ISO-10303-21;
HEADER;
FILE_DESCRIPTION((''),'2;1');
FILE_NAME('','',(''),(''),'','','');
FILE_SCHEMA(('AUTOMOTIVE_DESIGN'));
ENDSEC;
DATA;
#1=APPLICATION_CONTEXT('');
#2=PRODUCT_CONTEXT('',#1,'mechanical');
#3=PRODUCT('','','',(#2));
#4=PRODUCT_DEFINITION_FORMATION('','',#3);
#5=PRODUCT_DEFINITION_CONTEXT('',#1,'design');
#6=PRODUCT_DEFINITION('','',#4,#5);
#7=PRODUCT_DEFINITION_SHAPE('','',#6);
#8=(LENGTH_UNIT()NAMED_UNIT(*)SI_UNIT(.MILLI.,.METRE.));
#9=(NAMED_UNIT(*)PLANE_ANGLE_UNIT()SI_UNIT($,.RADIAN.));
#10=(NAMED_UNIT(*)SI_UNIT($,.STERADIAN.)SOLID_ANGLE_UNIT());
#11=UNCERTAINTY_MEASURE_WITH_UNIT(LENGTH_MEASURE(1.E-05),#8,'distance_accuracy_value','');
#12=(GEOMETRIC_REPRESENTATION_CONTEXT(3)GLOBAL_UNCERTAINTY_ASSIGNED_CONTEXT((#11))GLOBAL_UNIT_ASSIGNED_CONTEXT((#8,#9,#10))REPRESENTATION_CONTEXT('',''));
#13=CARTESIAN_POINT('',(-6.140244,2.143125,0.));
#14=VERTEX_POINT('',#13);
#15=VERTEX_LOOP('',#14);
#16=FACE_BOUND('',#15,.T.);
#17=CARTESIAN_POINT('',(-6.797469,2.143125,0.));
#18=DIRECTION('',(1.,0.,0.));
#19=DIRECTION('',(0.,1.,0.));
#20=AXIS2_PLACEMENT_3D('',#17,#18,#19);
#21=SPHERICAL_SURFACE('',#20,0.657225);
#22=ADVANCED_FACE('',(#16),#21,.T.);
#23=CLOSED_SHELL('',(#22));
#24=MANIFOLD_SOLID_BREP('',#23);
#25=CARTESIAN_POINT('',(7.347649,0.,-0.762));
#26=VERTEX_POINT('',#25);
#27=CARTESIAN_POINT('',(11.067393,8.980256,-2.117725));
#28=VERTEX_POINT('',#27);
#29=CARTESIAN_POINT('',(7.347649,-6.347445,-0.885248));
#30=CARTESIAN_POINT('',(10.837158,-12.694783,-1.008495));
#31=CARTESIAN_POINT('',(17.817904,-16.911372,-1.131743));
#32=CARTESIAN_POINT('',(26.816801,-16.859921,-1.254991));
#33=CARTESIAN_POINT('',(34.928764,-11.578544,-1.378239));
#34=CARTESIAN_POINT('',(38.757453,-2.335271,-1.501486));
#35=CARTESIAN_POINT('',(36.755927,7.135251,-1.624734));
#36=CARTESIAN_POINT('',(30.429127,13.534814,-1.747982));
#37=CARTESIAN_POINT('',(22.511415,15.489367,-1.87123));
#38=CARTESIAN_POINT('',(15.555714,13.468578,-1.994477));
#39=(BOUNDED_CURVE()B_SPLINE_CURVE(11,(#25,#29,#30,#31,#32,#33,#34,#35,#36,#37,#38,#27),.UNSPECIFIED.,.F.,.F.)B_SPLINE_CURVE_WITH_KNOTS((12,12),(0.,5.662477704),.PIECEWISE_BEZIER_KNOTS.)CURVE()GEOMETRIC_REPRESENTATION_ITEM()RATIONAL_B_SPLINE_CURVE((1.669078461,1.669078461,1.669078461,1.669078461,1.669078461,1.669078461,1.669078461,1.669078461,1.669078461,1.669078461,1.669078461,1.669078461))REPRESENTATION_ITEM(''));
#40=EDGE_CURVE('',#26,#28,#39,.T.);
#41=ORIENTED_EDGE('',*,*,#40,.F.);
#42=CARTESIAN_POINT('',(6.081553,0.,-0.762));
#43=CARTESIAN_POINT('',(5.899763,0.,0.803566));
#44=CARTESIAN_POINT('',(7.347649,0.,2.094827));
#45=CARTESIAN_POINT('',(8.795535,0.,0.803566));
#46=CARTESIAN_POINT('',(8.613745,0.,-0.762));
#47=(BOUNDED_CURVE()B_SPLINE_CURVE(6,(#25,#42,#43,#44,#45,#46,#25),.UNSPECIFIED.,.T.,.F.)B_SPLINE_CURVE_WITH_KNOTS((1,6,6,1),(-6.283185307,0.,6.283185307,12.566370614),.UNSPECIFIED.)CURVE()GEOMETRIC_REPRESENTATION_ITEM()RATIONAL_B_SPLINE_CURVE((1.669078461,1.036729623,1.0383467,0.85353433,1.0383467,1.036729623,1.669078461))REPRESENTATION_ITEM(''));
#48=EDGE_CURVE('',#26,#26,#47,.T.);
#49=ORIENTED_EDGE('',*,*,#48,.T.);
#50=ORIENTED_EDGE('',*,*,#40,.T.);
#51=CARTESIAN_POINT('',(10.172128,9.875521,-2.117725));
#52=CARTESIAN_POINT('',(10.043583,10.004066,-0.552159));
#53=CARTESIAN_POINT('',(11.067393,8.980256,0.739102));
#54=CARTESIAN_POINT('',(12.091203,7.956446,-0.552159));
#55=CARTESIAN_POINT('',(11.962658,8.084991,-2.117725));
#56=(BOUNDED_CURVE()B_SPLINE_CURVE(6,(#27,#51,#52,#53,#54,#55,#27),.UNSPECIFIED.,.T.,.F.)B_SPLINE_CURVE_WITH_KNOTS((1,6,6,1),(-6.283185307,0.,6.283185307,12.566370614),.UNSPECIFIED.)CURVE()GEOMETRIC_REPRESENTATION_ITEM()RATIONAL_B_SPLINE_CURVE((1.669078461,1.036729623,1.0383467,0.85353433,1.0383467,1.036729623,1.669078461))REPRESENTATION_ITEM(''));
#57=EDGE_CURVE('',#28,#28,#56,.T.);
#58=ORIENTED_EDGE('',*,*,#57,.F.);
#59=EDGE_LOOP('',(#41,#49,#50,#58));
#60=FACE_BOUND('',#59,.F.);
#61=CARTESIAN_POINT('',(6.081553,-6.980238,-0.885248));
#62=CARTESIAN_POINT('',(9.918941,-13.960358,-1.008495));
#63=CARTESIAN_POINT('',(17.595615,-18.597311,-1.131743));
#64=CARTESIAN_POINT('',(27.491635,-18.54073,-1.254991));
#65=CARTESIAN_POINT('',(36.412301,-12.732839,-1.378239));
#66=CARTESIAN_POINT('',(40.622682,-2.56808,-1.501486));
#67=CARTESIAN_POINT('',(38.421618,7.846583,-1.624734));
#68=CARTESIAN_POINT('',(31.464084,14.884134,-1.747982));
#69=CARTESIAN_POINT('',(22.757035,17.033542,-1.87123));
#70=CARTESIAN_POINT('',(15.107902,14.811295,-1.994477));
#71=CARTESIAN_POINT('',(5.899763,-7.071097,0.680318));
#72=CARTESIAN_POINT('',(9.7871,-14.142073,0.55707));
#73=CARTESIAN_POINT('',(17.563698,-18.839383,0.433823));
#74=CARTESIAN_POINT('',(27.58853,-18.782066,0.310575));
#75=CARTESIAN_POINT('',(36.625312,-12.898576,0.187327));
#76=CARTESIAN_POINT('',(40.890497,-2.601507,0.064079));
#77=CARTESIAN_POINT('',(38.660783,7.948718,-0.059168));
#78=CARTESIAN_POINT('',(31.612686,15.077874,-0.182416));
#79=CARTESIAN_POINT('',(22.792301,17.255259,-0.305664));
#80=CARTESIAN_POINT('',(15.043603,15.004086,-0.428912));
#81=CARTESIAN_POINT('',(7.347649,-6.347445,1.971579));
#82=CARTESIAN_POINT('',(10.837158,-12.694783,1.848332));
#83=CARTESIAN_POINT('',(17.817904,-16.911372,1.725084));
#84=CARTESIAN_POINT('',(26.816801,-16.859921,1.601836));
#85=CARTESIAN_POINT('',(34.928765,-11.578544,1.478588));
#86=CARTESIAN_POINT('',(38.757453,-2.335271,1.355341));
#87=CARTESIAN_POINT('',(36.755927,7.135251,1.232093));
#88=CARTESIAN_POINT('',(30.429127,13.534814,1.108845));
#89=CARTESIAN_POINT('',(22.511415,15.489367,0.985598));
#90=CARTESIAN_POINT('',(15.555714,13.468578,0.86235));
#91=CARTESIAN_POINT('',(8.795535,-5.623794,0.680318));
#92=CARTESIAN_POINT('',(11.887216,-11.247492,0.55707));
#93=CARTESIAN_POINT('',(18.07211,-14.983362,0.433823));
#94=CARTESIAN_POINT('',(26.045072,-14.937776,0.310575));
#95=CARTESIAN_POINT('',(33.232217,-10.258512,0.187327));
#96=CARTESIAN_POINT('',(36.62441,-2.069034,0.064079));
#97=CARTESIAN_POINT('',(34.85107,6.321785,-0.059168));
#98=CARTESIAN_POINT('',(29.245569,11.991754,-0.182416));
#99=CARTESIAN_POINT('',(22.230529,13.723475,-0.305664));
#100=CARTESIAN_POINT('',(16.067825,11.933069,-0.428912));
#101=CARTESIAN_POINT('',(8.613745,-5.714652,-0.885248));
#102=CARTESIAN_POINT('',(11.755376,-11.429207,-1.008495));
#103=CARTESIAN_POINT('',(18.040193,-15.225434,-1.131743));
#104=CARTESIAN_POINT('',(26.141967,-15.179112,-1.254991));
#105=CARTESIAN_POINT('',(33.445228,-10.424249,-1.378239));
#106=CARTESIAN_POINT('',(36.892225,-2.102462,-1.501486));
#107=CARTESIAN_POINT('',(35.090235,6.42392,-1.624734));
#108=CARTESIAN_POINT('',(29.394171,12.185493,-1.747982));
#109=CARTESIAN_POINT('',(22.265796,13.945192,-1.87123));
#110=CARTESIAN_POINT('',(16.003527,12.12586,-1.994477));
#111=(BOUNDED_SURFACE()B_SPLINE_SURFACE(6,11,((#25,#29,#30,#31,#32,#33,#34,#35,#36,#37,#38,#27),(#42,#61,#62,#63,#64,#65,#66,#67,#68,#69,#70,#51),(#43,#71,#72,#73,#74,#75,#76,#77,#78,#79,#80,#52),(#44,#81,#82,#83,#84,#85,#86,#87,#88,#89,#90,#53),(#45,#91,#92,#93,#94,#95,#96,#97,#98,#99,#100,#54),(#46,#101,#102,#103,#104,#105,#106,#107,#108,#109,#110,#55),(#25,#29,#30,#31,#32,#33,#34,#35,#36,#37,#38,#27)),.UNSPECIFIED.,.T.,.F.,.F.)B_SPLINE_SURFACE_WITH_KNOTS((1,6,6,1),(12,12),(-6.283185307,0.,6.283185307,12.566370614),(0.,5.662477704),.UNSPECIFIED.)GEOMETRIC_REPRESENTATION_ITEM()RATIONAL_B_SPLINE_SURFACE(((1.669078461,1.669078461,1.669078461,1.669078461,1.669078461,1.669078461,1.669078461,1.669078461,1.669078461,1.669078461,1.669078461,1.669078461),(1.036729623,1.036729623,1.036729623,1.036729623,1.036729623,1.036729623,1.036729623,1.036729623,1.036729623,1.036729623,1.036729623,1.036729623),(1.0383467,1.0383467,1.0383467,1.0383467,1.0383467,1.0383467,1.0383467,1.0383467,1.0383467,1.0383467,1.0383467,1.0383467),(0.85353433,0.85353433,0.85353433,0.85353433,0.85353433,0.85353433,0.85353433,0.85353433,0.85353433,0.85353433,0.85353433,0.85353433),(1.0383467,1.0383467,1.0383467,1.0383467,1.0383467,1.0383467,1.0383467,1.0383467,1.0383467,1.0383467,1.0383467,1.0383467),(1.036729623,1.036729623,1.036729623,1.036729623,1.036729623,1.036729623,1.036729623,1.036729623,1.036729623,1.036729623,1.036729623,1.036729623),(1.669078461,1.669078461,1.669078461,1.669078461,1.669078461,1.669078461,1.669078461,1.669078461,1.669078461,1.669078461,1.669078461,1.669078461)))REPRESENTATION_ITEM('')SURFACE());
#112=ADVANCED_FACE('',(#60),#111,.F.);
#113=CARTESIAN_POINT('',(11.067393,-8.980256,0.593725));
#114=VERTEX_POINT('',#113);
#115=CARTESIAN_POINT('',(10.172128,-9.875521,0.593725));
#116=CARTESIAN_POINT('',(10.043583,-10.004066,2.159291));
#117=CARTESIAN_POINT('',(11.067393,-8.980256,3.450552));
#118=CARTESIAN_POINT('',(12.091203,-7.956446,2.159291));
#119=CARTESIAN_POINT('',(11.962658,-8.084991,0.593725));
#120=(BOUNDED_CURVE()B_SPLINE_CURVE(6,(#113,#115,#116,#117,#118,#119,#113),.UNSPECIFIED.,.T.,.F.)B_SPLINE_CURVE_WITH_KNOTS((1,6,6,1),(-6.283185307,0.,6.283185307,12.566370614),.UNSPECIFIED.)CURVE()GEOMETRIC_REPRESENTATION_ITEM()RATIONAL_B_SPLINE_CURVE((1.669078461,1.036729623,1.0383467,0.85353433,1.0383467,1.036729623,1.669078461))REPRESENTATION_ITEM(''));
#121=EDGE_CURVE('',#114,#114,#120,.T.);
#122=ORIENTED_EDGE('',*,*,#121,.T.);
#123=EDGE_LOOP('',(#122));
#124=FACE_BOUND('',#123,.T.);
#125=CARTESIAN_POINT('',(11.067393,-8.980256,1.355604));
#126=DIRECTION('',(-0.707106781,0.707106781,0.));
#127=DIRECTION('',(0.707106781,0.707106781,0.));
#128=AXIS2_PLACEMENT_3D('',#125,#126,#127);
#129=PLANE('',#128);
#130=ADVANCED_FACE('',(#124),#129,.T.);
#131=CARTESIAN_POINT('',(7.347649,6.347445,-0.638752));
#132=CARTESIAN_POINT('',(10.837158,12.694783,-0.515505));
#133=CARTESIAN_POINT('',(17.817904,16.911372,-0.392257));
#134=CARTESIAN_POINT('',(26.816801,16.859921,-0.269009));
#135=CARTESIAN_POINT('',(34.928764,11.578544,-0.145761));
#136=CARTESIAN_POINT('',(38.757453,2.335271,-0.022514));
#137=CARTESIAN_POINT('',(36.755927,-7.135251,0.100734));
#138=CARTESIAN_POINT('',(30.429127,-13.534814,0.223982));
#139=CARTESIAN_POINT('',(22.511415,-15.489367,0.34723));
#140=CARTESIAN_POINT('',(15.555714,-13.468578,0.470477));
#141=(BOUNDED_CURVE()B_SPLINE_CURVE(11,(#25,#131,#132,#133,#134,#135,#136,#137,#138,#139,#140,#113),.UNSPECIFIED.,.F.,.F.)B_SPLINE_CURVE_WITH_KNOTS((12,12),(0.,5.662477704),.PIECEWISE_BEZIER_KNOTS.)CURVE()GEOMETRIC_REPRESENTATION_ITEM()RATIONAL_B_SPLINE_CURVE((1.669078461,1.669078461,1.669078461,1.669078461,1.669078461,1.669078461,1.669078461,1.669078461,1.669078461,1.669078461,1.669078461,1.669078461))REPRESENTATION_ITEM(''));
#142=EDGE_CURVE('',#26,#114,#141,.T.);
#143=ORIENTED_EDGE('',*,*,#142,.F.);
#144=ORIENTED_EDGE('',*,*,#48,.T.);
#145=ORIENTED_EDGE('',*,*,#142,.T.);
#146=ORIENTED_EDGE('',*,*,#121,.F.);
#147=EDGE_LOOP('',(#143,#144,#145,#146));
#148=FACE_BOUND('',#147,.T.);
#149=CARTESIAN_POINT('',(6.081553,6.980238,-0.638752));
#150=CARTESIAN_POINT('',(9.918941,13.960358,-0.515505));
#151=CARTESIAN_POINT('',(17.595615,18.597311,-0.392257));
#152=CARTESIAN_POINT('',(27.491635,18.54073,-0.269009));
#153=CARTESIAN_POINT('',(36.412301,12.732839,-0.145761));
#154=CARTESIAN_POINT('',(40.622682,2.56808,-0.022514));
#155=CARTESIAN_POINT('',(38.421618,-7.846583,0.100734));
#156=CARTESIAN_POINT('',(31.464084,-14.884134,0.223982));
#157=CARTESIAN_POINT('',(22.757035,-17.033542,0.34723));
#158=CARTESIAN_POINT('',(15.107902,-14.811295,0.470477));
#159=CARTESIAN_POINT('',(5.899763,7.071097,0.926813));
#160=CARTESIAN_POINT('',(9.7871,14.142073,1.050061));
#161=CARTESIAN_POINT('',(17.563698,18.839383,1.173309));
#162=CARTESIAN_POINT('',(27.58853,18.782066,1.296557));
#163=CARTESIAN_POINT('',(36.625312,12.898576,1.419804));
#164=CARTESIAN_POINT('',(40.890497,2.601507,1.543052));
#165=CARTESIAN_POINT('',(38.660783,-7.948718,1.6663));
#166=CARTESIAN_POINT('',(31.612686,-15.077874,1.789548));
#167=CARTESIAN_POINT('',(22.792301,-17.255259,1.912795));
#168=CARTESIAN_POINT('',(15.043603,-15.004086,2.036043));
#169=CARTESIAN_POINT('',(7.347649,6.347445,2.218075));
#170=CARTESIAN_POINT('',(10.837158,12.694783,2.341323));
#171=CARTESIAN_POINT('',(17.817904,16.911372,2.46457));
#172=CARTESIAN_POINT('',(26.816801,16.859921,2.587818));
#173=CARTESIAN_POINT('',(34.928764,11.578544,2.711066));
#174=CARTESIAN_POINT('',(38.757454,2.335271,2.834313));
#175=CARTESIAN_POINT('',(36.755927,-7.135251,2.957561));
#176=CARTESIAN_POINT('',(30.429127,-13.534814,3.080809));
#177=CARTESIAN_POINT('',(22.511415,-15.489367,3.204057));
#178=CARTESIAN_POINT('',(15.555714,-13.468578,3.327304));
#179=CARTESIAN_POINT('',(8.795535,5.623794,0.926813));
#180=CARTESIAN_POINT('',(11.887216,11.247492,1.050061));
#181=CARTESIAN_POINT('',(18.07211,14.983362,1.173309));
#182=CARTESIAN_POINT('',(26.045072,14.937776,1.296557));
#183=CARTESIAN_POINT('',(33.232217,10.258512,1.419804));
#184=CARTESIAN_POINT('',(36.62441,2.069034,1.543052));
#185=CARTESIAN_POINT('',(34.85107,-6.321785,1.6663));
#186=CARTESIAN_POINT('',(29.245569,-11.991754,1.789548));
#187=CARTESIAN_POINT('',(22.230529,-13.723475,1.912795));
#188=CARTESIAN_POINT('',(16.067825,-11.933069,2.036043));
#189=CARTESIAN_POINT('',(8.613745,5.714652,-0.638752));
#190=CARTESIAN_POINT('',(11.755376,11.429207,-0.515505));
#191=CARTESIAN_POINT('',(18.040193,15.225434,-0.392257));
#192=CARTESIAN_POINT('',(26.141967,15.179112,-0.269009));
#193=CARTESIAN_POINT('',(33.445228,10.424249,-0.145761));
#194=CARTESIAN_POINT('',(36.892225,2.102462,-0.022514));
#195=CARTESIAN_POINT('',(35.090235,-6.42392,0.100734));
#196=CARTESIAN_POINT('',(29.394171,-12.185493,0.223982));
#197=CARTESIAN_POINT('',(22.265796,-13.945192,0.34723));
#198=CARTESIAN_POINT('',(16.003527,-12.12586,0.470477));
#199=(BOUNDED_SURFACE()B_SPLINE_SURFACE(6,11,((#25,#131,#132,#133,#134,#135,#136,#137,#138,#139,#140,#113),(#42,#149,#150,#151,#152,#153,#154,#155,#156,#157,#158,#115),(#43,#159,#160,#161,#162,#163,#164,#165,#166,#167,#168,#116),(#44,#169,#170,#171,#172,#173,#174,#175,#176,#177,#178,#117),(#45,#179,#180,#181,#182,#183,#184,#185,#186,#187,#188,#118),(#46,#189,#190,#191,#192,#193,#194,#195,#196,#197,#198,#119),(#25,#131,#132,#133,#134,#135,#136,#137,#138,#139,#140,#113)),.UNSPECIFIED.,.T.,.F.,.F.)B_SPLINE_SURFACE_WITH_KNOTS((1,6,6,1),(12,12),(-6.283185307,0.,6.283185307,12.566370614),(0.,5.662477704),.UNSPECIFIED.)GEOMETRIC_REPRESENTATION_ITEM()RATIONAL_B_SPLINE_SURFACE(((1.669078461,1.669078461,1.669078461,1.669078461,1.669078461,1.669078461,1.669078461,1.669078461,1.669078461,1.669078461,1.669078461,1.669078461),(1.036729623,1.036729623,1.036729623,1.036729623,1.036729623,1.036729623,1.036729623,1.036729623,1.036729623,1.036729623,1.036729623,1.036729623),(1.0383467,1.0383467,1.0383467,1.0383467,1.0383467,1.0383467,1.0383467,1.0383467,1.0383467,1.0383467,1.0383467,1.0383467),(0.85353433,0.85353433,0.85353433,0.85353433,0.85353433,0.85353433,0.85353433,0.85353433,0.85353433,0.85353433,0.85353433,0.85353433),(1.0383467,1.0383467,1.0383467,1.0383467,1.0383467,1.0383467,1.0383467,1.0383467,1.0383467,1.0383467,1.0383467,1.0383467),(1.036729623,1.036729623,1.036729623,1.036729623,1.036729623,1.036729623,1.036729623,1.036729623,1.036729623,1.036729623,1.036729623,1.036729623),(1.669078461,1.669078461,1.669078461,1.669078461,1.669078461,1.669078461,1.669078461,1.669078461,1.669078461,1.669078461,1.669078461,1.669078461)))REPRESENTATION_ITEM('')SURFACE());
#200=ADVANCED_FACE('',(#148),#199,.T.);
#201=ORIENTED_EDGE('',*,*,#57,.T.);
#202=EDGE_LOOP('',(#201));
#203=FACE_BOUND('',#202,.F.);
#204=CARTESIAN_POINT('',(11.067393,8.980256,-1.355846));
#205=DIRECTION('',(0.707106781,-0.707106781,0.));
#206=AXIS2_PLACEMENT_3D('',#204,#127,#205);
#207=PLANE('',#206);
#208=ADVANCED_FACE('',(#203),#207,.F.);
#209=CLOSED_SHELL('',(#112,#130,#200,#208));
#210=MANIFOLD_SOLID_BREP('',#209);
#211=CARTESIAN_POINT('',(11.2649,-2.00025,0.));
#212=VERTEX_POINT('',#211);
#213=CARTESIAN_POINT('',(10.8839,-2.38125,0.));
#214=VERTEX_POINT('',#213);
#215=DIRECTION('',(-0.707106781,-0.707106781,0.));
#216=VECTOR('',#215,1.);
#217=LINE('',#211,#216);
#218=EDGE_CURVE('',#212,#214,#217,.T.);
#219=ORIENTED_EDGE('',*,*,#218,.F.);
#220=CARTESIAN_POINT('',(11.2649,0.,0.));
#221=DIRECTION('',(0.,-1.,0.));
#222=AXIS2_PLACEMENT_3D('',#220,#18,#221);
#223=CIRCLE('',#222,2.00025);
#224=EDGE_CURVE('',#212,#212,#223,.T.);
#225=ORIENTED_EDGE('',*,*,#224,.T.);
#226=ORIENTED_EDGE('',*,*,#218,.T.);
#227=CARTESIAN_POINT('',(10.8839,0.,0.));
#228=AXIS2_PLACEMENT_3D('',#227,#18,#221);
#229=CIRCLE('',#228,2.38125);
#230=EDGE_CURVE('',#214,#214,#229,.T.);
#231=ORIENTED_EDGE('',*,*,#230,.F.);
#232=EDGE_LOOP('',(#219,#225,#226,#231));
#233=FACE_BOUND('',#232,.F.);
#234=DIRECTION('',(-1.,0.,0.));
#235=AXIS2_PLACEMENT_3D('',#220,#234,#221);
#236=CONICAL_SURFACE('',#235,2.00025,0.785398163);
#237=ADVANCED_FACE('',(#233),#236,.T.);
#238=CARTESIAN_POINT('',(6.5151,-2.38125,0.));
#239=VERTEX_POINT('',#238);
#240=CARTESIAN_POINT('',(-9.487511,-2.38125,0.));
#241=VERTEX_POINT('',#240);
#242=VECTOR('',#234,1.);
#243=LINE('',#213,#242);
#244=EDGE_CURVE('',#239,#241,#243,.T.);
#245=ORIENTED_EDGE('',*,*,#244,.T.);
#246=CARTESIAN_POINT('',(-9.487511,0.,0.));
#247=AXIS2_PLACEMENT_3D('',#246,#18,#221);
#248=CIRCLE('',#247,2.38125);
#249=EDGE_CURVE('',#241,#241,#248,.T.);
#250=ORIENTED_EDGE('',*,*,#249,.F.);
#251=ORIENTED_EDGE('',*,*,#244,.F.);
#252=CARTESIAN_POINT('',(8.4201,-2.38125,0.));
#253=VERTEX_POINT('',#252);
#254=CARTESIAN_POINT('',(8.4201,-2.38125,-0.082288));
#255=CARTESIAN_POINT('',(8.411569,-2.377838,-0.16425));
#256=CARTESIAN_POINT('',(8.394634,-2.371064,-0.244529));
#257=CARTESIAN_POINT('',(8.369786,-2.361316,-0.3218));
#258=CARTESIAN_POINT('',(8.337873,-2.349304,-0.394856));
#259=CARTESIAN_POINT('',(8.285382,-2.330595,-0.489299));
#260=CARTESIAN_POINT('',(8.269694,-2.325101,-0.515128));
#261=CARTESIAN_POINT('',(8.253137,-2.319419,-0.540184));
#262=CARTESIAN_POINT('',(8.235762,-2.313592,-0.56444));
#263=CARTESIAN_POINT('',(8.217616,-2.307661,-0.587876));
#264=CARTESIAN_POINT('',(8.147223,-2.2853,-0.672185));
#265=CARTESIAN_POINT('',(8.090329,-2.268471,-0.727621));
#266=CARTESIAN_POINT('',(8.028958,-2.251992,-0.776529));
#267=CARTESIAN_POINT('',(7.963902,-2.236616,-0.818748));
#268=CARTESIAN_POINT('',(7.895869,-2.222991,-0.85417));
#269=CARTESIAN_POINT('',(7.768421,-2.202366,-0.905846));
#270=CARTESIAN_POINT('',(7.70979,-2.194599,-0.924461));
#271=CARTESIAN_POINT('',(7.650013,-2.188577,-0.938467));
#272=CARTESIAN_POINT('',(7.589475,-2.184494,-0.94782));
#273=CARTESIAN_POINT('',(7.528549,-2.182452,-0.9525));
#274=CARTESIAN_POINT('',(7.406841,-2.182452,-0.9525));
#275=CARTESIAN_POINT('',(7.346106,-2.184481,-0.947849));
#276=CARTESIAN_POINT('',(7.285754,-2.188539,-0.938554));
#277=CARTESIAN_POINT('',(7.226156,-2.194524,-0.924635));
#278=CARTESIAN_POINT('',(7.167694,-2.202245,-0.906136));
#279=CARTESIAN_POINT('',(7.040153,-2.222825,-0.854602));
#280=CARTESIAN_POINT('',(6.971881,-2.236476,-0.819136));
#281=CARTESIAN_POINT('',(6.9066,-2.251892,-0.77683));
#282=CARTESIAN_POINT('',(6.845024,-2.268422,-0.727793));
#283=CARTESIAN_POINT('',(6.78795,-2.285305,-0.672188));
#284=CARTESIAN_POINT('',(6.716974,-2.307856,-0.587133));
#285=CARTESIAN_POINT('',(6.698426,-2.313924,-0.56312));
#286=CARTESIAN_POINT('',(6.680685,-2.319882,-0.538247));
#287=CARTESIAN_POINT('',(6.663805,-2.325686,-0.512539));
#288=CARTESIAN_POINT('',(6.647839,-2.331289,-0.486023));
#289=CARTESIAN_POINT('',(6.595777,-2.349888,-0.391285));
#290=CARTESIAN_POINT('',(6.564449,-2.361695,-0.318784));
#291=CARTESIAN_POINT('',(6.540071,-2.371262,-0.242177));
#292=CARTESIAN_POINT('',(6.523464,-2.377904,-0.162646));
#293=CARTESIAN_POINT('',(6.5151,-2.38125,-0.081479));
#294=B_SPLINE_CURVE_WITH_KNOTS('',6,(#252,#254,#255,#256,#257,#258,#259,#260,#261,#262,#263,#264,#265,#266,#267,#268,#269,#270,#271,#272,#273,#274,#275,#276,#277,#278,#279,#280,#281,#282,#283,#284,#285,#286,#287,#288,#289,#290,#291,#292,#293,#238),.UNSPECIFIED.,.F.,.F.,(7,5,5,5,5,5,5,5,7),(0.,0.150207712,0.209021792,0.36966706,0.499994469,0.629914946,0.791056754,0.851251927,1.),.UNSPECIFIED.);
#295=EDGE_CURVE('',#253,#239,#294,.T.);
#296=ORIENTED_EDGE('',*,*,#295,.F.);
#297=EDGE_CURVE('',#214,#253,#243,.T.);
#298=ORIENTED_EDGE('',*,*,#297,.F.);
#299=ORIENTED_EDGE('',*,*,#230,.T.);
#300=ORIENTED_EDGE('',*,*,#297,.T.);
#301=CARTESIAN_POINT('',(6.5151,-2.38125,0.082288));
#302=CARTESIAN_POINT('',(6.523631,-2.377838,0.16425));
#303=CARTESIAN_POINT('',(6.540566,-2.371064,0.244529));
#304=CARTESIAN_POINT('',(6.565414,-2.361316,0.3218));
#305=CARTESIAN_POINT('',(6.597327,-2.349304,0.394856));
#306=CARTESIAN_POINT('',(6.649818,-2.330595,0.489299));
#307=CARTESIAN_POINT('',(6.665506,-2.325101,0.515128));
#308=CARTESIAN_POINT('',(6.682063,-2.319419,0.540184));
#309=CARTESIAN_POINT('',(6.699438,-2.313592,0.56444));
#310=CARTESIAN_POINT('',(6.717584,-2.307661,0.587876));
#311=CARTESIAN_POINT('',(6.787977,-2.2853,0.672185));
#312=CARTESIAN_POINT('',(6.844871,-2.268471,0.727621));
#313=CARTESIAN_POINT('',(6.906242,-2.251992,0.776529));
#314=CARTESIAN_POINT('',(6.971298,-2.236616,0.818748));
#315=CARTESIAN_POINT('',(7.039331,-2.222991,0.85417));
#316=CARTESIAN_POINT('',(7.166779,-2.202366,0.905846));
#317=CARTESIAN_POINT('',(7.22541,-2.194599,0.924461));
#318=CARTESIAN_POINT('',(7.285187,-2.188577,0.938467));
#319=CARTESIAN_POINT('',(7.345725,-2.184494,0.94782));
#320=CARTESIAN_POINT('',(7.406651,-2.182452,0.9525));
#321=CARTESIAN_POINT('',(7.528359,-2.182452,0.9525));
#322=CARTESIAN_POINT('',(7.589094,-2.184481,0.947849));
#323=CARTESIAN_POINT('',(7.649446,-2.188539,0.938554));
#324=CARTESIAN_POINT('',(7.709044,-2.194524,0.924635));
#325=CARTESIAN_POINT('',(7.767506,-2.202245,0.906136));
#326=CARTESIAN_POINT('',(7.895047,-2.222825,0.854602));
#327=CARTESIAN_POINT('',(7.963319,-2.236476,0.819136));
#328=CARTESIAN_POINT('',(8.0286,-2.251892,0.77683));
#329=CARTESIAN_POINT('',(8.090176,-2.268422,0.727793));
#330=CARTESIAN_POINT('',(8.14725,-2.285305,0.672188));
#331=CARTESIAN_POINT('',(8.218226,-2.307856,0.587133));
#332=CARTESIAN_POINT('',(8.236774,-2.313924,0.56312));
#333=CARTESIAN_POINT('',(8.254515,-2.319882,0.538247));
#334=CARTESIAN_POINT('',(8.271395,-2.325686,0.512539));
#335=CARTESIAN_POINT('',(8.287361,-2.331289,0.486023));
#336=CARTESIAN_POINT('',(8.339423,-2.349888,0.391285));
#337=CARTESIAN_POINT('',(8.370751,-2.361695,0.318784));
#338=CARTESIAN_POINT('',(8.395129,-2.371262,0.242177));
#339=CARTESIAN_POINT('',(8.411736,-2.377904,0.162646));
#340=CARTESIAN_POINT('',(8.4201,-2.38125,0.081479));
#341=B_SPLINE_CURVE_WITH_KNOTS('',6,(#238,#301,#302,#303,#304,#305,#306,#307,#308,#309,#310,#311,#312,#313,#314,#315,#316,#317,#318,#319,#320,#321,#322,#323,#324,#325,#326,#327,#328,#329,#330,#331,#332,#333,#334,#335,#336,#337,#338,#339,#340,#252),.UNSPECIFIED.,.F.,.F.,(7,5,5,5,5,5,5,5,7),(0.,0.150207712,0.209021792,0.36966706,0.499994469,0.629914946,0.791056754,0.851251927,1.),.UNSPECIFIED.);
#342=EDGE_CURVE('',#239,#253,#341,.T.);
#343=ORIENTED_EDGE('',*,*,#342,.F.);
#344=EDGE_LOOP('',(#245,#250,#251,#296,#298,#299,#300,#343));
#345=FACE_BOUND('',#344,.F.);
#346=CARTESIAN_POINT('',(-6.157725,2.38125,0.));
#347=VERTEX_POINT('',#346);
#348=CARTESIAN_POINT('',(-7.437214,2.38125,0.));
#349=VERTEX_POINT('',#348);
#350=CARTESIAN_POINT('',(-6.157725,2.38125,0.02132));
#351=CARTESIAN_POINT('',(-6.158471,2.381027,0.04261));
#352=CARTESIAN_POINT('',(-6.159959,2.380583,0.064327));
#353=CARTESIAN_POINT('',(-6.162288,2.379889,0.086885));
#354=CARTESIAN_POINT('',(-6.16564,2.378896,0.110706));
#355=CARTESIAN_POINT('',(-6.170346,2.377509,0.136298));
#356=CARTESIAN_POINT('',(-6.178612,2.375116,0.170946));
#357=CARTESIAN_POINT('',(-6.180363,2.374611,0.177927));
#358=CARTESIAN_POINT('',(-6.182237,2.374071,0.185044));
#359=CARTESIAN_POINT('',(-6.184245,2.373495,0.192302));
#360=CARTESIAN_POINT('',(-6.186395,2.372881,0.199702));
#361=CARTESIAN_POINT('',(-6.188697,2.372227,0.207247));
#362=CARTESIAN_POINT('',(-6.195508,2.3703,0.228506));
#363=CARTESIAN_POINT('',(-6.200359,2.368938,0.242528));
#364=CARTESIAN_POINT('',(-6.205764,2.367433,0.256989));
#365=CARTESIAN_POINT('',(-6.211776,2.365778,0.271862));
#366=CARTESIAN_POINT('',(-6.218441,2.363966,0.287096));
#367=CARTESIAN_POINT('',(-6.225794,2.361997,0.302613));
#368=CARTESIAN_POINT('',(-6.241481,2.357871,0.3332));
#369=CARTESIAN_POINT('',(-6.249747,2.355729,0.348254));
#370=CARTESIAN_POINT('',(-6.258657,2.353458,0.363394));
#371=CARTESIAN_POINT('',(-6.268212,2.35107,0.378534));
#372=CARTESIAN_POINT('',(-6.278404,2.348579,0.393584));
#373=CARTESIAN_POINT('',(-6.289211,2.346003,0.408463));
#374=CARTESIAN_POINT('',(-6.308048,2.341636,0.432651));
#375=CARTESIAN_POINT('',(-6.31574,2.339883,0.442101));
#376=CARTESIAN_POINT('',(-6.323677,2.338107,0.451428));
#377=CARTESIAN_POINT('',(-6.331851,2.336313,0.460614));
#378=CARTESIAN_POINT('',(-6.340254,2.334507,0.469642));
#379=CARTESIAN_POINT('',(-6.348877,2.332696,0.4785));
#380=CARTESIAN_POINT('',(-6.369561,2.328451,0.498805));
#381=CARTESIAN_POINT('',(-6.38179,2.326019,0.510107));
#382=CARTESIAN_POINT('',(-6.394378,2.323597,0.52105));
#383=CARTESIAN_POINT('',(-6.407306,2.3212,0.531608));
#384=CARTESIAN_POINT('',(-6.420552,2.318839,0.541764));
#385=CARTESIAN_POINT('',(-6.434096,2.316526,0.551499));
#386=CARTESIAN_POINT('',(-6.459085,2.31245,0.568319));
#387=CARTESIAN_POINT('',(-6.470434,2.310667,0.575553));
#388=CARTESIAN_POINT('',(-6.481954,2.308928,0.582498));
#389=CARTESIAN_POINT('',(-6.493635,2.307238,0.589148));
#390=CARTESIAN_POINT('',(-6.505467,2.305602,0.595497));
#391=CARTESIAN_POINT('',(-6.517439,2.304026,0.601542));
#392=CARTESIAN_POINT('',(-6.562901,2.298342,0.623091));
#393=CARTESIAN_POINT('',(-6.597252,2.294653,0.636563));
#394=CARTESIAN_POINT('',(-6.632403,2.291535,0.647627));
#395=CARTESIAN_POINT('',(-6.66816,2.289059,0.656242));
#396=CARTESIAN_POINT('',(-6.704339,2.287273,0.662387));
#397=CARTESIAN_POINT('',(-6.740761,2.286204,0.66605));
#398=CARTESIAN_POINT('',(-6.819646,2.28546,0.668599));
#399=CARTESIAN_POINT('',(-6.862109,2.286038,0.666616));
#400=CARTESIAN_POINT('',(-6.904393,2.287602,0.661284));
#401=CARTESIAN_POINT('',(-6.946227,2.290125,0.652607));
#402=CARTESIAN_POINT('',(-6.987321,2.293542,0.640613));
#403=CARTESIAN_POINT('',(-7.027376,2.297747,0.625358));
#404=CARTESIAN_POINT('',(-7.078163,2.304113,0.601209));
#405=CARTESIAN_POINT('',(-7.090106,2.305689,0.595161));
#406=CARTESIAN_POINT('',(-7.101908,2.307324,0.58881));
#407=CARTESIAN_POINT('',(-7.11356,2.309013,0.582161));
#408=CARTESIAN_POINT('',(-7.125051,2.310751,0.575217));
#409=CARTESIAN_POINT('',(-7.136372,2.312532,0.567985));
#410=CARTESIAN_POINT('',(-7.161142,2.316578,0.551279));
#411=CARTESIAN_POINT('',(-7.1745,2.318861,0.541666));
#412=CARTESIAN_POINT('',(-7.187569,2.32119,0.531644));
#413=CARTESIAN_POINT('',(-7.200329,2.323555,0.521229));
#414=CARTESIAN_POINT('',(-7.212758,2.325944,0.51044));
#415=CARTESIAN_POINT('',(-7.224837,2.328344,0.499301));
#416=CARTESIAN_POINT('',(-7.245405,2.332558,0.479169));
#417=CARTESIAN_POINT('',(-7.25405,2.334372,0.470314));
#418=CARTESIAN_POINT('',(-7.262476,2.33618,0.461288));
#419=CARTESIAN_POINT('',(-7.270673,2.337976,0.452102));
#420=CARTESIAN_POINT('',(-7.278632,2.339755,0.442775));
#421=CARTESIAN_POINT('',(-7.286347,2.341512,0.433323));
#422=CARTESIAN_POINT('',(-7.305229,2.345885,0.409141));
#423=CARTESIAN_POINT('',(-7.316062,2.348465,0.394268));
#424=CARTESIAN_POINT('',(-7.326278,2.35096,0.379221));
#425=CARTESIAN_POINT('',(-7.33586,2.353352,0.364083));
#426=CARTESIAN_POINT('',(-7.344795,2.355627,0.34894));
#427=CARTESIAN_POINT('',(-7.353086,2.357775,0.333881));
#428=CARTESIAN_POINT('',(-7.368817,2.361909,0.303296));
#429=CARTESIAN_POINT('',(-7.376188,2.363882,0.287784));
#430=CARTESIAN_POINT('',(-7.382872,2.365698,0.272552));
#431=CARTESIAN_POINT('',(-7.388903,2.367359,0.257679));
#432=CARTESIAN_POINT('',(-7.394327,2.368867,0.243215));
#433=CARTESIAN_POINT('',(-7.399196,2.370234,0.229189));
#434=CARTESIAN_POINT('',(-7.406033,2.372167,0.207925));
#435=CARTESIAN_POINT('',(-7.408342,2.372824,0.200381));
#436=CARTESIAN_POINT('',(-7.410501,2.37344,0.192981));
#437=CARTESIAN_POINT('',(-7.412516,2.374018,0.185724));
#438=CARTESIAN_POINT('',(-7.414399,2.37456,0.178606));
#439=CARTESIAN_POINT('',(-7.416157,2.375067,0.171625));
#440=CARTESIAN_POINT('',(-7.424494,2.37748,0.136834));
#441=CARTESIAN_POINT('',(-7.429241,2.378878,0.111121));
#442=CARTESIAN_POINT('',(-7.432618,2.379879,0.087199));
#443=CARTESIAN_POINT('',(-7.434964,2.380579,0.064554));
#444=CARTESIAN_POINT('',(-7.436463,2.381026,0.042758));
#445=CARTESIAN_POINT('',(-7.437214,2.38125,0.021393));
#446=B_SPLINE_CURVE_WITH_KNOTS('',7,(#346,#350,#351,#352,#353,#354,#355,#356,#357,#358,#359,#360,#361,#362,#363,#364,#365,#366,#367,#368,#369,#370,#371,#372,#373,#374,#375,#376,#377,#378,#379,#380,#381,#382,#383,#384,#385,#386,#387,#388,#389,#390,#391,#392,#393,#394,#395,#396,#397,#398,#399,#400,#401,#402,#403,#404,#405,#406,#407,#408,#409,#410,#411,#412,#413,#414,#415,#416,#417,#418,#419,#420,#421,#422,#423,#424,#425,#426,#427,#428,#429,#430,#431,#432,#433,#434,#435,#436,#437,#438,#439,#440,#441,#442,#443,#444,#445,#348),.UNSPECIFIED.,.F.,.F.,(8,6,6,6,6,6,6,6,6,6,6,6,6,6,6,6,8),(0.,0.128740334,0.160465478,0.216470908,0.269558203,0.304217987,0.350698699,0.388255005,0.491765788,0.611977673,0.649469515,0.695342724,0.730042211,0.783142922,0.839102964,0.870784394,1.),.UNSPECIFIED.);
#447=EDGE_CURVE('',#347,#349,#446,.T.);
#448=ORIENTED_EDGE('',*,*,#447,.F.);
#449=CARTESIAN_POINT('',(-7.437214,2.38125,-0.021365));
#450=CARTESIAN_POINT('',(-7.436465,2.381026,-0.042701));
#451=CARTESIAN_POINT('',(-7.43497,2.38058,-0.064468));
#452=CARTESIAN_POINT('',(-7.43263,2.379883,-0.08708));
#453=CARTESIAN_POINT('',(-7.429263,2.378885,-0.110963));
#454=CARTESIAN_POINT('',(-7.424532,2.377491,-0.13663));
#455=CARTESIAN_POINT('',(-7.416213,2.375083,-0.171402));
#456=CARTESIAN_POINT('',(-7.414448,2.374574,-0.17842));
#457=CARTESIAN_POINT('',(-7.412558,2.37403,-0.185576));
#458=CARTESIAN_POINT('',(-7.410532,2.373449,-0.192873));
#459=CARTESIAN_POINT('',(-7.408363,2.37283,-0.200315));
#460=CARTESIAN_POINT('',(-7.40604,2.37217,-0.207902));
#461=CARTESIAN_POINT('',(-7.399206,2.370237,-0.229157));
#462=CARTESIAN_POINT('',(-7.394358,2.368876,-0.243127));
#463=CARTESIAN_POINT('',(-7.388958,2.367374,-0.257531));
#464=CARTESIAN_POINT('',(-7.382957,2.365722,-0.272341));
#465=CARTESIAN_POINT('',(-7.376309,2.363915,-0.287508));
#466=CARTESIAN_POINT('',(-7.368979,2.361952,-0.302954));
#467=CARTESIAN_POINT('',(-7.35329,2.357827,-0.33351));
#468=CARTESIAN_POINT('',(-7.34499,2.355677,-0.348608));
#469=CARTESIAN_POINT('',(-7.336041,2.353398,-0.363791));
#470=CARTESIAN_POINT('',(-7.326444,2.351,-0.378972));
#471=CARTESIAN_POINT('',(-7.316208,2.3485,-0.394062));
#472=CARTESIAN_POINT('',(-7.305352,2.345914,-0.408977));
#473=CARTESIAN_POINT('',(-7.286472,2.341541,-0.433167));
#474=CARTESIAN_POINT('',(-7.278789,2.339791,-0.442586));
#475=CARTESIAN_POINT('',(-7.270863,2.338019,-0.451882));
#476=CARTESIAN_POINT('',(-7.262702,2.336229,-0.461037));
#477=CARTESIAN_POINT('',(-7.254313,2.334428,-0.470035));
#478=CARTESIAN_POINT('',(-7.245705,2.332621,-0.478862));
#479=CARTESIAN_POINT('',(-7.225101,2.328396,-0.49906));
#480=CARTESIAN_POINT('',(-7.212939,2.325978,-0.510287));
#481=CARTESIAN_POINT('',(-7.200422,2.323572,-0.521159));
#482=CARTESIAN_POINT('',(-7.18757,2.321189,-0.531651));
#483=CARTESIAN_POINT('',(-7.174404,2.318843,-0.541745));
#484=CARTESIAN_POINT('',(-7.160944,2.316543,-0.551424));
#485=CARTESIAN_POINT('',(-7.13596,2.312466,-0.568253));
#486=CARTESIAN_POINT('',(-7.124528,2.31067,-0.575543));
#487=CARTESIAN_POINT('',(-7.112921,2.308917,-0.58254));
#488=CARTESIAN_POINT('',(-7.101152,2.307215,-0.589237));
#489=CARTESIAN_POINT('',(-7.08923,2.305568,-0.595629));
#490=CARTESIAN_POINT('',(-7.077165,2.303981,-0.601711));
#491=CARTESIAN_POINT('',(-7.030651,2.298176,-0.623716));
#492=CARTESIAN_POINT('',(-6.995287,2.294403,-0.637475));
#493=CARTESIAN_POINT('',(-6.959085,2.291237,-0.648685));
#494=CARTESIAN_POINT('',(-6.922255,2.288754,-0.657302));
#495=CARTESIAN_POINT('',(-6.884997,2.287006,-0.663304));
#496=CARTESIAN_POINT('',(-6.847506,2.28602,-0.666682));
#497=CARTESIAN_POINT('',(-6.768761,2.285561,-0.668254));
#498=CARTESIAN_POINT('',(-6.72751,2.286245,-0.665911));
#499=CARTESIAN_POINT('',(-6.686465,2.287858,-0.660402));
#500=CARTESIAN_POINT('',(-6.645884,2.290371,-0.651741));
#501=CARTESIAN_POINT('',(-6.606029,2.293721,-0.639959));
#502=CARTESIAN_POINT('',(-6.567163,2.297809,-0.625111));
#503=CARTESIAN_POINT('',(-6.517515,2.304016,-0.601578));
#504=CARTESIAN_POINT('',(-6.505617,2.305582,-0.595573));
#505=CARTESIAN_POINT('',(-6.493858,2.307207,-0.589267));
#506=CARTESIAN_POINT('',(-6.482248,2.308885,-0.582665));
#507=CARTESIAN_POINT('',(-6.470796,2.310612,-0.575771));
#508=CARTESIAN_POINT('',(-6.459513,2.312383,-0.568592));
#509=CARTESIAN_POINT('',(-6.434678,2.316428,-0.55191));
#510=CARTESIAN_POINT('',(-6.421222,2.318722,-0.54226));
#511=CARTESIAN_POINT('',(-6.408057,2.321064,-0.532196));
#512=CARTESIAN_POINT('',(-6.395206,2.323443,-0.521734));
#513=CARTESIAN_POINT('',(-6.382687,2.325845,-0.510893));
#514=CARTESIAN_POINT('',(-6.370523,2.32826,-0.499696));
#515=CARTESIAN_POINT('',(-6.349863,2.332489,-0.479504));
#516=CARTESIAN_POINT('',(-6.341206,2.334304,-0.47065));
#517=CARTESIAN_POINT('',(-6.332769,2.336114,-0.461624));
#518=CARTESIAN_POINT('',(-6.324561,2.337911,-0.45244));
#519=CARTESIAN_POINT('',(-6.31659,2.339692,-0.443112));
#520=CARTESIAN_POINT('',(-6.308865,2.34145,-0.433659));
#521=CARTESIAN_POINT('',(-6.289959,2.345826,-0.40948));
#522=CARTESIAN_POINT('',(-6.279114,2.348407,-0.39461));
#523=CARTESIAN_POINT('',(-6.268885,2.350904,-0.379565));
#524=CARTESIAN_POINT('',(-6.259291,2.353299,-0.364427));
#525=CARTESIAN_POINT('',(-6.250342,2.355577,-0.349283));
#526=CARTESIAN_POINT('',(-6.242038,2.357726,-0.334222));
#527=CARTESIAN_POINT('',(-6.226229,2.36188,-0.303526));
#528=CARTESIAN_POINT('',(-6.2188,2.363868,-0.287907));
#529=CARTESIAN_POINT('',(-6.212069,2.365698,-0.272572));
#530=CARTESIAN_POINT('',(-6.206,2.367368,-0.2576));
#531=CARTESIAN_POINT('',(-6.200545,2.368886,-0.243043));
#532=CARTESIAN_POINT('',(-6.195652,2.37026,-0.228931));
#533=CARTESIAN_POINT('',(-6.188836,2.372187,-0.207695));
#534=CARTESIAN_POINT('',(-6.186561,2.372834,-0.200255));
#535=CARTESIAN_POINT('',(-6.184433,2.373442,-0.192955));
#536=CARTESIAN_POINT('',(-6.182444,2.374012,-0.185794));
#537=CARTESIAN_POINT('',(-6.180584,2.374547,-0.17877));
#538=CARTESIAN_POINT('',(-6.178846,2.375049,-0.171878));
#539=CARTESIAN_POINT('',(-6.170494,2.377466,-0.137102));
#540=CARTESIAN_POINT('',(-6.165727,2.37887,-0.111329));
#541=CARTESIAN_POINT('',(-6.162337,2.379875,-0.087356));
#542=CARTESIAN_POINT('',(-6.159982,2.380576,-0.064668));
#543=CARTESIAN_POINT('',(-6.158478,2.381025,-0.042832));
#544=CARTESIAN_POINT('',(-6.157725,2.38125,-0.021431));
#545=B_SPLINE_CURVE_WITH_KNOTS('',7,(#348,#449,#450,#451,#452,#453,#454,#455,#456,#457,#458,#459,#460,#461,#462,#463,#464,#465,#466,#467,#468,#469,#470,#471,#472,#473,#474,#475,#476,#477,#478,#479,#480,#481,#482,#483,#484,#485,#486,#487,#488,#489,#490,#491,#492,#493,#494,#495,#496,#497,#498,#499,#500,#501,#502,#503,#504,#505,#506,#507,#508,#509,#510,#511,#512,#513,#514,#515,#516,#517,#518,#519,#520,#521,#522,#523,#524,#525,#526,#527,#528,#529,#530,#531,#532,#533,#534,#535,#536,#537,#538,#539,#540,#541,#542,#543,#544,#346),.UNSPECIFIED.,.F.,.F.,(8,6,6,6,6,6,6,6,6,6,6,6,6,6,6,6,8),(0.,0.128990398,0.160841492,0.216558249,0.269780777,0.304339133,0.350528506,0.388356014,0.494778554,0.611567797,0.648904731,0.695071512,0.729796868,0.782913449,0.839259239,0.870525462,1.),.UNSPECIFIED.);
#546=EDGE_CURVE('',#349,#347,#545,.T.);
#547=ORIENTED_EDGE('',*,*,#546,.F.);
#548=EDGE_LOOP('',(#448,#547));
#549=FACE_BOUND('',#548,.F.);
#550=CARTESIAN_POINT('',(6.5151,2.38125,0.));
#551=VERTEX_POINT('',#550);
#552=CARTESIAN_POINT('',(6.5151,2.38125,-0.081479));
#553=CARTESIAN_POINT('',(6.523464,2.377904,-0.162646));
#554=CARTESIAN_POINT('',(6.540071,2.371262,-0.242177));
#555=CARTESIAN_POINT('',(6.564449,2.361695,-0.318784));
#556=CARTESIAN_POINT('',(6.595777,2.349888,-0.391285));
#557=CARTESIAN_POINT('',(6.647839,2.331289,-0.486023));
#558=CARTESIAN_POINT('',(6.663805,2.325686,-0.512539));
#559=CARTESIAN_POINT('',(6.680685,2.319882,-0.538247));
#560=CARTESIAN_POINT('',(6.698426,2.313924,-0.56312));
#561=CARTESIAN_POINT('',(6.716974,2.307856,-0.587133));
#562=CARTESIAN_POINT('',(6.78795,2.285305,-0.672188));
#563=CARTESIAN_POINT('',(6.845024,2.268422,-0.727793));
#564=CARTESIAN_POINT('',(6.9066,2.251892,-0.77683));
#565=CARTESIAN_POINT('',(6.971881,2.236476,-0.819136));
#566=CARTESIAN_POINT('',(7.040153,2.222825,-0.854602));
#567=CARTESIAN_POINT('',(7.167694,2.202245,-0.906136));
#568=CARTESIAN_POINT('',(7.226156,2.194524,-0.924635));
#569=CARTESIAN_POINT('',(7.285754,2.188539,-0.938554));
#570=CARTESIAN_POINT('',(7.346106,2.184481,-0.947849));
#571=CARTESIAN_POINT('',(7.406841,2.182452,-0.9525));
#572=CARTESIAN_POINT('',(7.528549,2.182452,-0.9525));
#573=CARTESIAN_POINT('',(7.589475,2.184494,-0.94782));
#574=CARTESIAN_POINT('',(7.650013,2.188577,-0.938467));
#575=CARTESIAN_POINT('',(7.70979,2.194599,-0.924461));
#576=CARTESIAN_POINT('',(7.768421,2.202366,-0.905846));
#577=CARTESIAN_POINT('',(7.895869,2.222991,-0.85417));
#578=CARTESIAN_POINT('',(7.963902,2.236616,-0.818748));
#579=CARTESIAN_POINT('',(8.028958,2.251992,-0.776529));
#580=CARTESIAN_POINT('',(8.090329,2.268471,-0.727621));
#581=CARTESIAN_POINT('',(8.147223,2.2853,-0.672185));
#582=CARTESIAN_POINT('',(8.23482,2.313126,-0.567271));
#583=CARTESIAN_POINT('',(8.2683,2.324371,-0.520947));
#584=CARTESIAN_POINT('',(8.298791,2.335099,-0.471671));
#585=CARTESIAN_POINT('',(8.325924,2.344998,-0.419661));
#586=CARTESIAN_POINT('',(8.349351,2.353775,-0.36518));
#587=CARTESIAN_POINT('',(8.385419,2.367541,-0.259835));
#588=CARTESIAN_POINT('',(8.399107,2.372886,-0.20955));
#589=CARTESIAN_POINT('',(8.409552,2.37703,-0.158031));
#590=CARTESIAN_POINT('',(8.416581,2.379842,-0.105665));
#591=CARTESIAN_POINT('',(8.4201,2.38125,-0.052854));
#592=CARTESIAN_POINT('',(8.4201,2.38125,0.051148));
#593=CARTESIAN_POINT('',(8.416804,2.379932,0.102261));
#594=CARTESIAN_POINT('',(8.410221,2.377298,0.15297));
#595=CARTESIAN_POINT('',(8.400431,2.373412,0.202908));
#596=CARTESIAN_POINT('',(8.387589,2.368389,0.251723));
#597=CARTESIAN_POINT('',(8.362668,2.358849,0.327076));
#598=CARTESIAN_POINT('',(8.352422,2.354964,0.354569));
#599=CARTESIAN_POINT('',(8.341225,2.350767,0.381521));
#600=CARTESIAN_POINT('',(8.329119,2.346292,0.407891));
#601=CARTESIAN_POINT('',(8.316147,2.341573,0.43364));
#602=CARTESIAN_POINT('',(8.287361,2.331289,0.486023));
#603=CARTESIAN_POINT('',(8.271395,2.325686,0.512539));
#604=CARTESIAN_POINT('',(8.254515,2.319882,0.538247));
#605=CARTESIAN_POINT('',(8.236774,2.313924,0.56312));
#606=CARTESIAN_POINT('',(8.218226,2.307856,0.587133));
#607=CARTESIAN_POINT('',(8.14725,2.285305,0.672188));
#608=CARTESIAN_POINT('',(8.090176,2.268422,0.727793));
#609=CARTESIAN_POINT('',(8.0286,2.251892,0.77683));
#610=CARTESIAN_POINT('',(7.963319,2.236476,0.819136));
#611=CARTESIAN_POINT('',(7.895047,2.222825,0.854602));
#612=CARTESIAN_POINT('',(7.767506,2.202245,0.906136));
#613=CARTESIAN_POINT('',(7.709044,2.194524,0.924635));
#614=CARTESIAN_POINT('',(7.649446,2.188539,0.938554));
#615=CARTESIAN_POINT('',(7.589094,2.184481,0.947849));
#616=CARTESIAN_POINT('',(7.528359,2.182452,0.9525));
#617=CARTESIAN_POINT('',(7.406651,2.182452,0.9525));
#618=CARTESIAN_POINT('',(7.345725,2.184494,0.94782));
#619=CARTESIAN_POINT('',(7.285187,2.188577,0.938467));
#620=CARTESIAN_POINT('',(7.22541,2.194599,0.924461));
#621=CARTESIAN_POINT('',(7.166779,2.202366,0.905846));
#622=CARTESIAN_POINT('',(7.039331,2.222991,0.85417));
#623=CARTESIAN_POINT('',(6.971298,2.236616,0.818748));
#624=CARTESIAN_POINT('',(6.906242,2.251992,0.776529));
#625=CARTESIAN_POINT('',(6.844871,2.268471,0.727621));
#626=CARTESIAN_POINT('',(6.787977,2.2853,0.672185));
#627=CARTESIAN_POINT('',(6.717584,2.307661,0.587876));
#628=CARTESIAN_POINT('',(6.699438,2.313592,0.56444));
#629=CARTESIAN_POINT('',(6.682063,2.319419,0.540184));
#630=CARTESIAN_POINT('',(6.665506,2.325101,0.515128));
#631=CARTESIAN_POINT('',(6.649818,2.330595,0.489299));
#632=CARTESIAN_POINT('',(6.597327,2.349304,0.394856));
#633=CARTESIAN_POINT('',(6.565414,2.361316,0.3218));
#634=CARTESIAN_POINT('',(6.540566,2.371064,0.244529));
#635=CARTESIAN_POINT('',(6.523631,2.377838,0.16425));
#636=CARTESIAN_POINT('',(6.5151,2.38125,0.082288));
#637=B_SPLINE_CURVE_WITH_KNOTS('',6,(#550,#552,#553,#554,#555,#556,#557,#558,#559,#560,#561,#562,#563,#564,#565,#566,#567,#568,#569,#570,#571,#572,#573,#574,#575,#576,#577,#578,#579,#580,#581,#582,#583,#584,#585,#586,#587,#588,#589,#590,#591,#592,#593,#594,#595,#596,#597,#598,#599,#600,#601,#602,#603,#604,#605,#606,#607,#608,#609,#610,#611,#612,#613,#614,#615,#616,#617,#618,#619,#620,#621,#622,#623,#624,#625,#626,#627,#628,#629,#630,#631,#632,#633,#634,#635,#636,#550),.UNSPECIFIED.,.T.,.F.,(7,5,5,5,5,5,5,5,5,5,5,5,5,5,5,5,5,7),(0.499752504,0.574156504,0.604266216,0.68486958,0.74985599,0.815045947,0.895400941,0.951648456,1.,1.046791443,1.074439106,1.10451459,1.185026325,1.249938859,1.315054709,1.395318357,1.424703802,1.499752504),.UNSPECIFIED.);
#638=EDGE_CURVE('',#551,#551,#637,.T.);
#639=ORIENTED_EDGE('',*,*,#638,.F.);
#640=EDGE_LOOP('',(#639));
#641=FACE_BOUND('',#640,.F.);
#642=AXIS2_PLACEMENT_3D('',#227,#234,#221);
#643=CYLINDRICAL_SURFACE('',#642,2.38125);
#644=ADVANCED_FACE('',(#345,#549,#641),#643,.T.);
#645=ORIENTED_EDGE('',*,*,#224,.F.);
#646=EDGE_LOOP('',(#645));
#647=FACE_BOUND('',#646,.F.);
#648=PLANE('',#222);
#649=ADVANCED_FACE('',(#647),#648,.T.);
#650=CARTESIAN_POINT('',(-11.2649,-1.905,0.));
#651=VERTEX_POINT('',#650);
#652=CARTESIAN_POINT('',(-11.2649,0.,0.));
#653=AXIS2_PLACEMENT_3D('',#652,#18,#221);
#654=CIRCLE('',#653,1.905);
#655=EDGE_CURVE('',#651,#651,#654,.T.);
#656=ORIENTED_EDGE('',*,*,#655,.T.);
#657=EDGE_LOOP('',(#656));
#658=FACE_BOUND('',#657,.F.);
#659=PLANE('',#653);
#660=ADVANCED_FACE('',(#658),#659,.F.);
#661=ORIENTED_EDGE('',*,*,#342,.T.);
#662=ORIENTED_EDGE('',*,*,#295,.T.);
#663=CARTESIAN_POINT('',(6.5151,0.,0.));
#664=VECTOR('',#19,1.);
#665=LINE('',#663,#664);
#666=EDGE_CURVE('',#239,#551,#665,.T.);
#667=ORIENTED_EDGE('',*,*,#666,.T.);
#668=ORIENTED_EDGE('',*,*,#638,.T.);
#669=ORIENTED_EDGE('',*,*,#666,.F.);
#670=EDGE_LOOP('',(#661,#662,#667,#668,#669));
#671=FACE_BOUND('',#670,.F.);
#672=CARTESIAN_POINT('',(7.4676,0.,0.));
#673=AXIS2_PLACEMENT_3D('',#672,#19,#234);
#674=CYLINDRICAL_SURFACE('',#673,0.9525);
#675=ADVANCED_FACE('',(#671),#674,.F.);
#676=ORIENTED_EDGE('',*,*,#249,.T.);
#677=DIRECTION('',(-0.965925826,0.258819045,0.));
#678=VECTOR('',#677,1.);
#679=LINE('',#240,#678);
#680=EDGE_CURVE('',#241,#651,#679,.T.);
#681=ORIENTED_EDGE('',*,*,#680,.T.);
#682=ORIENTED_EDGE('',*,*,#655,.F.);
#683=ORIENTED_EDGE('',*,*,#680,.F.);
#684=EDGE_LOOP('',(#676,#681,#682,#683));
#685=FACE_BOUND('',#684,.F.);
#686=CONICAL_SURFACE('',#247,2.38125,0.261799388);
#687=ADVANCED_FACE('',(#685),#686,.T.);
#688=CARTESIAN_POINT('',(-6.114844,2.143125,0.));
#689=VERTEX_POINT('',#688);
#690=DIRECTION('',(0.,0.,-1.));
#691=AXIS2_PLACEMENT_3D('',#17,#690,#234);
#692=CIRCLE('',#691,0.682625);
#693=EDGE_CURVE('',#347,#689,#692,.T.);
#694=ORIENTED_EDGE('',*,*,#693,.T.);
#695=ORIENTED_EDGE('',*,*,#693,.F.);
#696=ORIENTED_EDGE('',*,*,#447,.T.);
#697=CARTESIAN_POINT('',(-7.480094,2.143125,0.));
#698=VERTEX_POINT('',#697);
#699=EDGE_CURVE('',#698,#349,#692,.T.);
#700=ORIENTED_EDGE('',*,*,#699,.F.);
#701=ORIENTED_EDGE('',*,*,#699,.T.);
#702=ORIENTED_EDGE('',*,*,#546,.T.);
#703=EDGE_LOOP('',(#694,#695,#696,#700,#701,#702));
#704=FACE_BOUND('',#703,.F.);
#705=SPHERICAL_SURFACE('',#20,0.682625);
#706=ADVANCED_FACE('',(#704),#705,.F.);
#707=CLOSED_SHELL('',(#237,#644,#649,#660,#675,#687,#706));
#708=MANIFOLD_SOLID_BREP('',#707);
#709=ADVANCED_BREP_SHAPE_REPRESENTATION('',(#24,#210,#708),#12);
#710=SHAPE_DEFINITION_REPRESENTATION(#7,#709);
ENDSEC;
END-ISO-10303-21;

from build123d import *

# Parameters (mm, degrees)
SKETCH4_W          = 0.9525
SKETCH4_H          = 4.7625
SWEEP1_PITCH       = 1.5494
SWEEP1_HEIGHT      = 1.355725
SWEEP1_RADIUS      = 13.462
SKETCH6_R          = 0.762
SWEEP2_PITCH       = 1.5494
SWEEP2_HEIGHT      = 1.355725
SWEEP2_RADIUS      = 13.462
SWEEP2_START_ANGLE = -180
SKETCH6_2_R        = 0.762


with BuildPart() as part:
    # Sketch1 → Revolve1 (revolve)
    with BuildSketch(Plane.XY, mode=Mode.PRIVATE) as revolve1_sk:
        Polygon((11.2649, 2.00025), (10.8839, 2.38125), (-9.487510803, 2.38125), (-11.2649, 1.905), (-11.2649, 0), (11.2649, 0), align=None)
    revolve(revolve1_sk.sketch.rotate(Axis((11.2649, 0, 0), (1, 0, 0)), 180), axis=Axis((11.2649, 0, 0), (1, 0, 0)))

    # Sketch2 → Cut-Revolve1 (revolve, cut)
    with BuildSketch(Plane.XY):
        with BuildLine():
            Line((-6.114844331, 2.143125), (-7.480094331, 2.143125))
            ThreePointArc((-7.480094331, 2.143125), (-6.797469331, 2.82575), (-6.114844331, 2.143125))
        make_face()
    revolve(axis=Axis((-6.114844331, 2.143125, 0), (1, 0, 0)), mode=Mode.SUBTRACT)

    # Sketch4 → Cut-Revolve2 (revolve, cut)
    with BuildSketch(Plane.XY, mode=Mode.PRIVATE) as cut_revolve2_sk:
        with Locations((7.94385, 0)):
            Rectangle(SKETCH4_W, SKETCH4_H)
    revolve(cut_revolve2_sk.sketch.rotate(Axis((7.4676, -2.38125, 0), (0, 1, 0)), 180), axis=Axis((7.4676, -2.38125, 0), (0, 1, 0)), mode=Mode.SUBTRACT)


with BuildPart() as body_2:
    # Sketch3 → Revolve2 (revolve)
    with BuildSketch(Plane.XY):
        with BuildLine():
            Line((-6.140244331, 2.143125), (-7.454694331, 2.143125))
            ThreePointArc((-7.454694331, 2.143125), (-6.797469331, 2.80035), (-6.140244331, 2.143125))
        make_face()
    revolve(axis=Axis((-6.140244331, 2.143125, 0), (1, 0, 0)))


with BuildPart() as body_3:
    # Sweep1: sweep along a helix
    with BuildLine() as sweep1_path:
        Helix(SWEEP1_PITCH, SWEEP1_HEIGHT, SWEEP1_RADIUS, center=(20.047648906, 0, 0), direction=(0, 0, -1), lefthand=True)
    # Sketch6 → Sweep1 (sweep)
    with BuildSketch(Plane(origin=(114.003847968, 0, 0), x_dir=(0, 0, -1), z_dir=(0, 1, 0))):
        with Locations((0, 106.656199061)):
            Circle(SKETCH6_R)
    sweep(path=sweep1_path.line, is_frenet=True)

    # Sweep2: sweep along a helix
    with BuildLine() as sweep2_path:
        add(Helix(SWEEP2_PITCH, SWEEP2_HEIGHT, SWEEP2_RADIUS, center=(20.047648906, 0, 0), direction=(0, 0, 1), lefthand=True, mode=Mode.PRIVATE).rotate(Axis((20.047648906, 0, 0), (0, 0, 1)), SWEEP2_START_ANGLE))
    # Sketch6<2> → Sweep2 (sweep)
    with BuildSketch(Plane(origin=(114.003847968, 0, 0), x_dir=(0, 0, -1), z_dir=(0, 1, 0))):
        with Locations((0, 106.656199061)):
            Circle(SKETCH6_2_R)
    sweep(path=sweep2_path.line, is_frenet=True)


solid = Compound([part.part, body_2.part, body_3.part])
